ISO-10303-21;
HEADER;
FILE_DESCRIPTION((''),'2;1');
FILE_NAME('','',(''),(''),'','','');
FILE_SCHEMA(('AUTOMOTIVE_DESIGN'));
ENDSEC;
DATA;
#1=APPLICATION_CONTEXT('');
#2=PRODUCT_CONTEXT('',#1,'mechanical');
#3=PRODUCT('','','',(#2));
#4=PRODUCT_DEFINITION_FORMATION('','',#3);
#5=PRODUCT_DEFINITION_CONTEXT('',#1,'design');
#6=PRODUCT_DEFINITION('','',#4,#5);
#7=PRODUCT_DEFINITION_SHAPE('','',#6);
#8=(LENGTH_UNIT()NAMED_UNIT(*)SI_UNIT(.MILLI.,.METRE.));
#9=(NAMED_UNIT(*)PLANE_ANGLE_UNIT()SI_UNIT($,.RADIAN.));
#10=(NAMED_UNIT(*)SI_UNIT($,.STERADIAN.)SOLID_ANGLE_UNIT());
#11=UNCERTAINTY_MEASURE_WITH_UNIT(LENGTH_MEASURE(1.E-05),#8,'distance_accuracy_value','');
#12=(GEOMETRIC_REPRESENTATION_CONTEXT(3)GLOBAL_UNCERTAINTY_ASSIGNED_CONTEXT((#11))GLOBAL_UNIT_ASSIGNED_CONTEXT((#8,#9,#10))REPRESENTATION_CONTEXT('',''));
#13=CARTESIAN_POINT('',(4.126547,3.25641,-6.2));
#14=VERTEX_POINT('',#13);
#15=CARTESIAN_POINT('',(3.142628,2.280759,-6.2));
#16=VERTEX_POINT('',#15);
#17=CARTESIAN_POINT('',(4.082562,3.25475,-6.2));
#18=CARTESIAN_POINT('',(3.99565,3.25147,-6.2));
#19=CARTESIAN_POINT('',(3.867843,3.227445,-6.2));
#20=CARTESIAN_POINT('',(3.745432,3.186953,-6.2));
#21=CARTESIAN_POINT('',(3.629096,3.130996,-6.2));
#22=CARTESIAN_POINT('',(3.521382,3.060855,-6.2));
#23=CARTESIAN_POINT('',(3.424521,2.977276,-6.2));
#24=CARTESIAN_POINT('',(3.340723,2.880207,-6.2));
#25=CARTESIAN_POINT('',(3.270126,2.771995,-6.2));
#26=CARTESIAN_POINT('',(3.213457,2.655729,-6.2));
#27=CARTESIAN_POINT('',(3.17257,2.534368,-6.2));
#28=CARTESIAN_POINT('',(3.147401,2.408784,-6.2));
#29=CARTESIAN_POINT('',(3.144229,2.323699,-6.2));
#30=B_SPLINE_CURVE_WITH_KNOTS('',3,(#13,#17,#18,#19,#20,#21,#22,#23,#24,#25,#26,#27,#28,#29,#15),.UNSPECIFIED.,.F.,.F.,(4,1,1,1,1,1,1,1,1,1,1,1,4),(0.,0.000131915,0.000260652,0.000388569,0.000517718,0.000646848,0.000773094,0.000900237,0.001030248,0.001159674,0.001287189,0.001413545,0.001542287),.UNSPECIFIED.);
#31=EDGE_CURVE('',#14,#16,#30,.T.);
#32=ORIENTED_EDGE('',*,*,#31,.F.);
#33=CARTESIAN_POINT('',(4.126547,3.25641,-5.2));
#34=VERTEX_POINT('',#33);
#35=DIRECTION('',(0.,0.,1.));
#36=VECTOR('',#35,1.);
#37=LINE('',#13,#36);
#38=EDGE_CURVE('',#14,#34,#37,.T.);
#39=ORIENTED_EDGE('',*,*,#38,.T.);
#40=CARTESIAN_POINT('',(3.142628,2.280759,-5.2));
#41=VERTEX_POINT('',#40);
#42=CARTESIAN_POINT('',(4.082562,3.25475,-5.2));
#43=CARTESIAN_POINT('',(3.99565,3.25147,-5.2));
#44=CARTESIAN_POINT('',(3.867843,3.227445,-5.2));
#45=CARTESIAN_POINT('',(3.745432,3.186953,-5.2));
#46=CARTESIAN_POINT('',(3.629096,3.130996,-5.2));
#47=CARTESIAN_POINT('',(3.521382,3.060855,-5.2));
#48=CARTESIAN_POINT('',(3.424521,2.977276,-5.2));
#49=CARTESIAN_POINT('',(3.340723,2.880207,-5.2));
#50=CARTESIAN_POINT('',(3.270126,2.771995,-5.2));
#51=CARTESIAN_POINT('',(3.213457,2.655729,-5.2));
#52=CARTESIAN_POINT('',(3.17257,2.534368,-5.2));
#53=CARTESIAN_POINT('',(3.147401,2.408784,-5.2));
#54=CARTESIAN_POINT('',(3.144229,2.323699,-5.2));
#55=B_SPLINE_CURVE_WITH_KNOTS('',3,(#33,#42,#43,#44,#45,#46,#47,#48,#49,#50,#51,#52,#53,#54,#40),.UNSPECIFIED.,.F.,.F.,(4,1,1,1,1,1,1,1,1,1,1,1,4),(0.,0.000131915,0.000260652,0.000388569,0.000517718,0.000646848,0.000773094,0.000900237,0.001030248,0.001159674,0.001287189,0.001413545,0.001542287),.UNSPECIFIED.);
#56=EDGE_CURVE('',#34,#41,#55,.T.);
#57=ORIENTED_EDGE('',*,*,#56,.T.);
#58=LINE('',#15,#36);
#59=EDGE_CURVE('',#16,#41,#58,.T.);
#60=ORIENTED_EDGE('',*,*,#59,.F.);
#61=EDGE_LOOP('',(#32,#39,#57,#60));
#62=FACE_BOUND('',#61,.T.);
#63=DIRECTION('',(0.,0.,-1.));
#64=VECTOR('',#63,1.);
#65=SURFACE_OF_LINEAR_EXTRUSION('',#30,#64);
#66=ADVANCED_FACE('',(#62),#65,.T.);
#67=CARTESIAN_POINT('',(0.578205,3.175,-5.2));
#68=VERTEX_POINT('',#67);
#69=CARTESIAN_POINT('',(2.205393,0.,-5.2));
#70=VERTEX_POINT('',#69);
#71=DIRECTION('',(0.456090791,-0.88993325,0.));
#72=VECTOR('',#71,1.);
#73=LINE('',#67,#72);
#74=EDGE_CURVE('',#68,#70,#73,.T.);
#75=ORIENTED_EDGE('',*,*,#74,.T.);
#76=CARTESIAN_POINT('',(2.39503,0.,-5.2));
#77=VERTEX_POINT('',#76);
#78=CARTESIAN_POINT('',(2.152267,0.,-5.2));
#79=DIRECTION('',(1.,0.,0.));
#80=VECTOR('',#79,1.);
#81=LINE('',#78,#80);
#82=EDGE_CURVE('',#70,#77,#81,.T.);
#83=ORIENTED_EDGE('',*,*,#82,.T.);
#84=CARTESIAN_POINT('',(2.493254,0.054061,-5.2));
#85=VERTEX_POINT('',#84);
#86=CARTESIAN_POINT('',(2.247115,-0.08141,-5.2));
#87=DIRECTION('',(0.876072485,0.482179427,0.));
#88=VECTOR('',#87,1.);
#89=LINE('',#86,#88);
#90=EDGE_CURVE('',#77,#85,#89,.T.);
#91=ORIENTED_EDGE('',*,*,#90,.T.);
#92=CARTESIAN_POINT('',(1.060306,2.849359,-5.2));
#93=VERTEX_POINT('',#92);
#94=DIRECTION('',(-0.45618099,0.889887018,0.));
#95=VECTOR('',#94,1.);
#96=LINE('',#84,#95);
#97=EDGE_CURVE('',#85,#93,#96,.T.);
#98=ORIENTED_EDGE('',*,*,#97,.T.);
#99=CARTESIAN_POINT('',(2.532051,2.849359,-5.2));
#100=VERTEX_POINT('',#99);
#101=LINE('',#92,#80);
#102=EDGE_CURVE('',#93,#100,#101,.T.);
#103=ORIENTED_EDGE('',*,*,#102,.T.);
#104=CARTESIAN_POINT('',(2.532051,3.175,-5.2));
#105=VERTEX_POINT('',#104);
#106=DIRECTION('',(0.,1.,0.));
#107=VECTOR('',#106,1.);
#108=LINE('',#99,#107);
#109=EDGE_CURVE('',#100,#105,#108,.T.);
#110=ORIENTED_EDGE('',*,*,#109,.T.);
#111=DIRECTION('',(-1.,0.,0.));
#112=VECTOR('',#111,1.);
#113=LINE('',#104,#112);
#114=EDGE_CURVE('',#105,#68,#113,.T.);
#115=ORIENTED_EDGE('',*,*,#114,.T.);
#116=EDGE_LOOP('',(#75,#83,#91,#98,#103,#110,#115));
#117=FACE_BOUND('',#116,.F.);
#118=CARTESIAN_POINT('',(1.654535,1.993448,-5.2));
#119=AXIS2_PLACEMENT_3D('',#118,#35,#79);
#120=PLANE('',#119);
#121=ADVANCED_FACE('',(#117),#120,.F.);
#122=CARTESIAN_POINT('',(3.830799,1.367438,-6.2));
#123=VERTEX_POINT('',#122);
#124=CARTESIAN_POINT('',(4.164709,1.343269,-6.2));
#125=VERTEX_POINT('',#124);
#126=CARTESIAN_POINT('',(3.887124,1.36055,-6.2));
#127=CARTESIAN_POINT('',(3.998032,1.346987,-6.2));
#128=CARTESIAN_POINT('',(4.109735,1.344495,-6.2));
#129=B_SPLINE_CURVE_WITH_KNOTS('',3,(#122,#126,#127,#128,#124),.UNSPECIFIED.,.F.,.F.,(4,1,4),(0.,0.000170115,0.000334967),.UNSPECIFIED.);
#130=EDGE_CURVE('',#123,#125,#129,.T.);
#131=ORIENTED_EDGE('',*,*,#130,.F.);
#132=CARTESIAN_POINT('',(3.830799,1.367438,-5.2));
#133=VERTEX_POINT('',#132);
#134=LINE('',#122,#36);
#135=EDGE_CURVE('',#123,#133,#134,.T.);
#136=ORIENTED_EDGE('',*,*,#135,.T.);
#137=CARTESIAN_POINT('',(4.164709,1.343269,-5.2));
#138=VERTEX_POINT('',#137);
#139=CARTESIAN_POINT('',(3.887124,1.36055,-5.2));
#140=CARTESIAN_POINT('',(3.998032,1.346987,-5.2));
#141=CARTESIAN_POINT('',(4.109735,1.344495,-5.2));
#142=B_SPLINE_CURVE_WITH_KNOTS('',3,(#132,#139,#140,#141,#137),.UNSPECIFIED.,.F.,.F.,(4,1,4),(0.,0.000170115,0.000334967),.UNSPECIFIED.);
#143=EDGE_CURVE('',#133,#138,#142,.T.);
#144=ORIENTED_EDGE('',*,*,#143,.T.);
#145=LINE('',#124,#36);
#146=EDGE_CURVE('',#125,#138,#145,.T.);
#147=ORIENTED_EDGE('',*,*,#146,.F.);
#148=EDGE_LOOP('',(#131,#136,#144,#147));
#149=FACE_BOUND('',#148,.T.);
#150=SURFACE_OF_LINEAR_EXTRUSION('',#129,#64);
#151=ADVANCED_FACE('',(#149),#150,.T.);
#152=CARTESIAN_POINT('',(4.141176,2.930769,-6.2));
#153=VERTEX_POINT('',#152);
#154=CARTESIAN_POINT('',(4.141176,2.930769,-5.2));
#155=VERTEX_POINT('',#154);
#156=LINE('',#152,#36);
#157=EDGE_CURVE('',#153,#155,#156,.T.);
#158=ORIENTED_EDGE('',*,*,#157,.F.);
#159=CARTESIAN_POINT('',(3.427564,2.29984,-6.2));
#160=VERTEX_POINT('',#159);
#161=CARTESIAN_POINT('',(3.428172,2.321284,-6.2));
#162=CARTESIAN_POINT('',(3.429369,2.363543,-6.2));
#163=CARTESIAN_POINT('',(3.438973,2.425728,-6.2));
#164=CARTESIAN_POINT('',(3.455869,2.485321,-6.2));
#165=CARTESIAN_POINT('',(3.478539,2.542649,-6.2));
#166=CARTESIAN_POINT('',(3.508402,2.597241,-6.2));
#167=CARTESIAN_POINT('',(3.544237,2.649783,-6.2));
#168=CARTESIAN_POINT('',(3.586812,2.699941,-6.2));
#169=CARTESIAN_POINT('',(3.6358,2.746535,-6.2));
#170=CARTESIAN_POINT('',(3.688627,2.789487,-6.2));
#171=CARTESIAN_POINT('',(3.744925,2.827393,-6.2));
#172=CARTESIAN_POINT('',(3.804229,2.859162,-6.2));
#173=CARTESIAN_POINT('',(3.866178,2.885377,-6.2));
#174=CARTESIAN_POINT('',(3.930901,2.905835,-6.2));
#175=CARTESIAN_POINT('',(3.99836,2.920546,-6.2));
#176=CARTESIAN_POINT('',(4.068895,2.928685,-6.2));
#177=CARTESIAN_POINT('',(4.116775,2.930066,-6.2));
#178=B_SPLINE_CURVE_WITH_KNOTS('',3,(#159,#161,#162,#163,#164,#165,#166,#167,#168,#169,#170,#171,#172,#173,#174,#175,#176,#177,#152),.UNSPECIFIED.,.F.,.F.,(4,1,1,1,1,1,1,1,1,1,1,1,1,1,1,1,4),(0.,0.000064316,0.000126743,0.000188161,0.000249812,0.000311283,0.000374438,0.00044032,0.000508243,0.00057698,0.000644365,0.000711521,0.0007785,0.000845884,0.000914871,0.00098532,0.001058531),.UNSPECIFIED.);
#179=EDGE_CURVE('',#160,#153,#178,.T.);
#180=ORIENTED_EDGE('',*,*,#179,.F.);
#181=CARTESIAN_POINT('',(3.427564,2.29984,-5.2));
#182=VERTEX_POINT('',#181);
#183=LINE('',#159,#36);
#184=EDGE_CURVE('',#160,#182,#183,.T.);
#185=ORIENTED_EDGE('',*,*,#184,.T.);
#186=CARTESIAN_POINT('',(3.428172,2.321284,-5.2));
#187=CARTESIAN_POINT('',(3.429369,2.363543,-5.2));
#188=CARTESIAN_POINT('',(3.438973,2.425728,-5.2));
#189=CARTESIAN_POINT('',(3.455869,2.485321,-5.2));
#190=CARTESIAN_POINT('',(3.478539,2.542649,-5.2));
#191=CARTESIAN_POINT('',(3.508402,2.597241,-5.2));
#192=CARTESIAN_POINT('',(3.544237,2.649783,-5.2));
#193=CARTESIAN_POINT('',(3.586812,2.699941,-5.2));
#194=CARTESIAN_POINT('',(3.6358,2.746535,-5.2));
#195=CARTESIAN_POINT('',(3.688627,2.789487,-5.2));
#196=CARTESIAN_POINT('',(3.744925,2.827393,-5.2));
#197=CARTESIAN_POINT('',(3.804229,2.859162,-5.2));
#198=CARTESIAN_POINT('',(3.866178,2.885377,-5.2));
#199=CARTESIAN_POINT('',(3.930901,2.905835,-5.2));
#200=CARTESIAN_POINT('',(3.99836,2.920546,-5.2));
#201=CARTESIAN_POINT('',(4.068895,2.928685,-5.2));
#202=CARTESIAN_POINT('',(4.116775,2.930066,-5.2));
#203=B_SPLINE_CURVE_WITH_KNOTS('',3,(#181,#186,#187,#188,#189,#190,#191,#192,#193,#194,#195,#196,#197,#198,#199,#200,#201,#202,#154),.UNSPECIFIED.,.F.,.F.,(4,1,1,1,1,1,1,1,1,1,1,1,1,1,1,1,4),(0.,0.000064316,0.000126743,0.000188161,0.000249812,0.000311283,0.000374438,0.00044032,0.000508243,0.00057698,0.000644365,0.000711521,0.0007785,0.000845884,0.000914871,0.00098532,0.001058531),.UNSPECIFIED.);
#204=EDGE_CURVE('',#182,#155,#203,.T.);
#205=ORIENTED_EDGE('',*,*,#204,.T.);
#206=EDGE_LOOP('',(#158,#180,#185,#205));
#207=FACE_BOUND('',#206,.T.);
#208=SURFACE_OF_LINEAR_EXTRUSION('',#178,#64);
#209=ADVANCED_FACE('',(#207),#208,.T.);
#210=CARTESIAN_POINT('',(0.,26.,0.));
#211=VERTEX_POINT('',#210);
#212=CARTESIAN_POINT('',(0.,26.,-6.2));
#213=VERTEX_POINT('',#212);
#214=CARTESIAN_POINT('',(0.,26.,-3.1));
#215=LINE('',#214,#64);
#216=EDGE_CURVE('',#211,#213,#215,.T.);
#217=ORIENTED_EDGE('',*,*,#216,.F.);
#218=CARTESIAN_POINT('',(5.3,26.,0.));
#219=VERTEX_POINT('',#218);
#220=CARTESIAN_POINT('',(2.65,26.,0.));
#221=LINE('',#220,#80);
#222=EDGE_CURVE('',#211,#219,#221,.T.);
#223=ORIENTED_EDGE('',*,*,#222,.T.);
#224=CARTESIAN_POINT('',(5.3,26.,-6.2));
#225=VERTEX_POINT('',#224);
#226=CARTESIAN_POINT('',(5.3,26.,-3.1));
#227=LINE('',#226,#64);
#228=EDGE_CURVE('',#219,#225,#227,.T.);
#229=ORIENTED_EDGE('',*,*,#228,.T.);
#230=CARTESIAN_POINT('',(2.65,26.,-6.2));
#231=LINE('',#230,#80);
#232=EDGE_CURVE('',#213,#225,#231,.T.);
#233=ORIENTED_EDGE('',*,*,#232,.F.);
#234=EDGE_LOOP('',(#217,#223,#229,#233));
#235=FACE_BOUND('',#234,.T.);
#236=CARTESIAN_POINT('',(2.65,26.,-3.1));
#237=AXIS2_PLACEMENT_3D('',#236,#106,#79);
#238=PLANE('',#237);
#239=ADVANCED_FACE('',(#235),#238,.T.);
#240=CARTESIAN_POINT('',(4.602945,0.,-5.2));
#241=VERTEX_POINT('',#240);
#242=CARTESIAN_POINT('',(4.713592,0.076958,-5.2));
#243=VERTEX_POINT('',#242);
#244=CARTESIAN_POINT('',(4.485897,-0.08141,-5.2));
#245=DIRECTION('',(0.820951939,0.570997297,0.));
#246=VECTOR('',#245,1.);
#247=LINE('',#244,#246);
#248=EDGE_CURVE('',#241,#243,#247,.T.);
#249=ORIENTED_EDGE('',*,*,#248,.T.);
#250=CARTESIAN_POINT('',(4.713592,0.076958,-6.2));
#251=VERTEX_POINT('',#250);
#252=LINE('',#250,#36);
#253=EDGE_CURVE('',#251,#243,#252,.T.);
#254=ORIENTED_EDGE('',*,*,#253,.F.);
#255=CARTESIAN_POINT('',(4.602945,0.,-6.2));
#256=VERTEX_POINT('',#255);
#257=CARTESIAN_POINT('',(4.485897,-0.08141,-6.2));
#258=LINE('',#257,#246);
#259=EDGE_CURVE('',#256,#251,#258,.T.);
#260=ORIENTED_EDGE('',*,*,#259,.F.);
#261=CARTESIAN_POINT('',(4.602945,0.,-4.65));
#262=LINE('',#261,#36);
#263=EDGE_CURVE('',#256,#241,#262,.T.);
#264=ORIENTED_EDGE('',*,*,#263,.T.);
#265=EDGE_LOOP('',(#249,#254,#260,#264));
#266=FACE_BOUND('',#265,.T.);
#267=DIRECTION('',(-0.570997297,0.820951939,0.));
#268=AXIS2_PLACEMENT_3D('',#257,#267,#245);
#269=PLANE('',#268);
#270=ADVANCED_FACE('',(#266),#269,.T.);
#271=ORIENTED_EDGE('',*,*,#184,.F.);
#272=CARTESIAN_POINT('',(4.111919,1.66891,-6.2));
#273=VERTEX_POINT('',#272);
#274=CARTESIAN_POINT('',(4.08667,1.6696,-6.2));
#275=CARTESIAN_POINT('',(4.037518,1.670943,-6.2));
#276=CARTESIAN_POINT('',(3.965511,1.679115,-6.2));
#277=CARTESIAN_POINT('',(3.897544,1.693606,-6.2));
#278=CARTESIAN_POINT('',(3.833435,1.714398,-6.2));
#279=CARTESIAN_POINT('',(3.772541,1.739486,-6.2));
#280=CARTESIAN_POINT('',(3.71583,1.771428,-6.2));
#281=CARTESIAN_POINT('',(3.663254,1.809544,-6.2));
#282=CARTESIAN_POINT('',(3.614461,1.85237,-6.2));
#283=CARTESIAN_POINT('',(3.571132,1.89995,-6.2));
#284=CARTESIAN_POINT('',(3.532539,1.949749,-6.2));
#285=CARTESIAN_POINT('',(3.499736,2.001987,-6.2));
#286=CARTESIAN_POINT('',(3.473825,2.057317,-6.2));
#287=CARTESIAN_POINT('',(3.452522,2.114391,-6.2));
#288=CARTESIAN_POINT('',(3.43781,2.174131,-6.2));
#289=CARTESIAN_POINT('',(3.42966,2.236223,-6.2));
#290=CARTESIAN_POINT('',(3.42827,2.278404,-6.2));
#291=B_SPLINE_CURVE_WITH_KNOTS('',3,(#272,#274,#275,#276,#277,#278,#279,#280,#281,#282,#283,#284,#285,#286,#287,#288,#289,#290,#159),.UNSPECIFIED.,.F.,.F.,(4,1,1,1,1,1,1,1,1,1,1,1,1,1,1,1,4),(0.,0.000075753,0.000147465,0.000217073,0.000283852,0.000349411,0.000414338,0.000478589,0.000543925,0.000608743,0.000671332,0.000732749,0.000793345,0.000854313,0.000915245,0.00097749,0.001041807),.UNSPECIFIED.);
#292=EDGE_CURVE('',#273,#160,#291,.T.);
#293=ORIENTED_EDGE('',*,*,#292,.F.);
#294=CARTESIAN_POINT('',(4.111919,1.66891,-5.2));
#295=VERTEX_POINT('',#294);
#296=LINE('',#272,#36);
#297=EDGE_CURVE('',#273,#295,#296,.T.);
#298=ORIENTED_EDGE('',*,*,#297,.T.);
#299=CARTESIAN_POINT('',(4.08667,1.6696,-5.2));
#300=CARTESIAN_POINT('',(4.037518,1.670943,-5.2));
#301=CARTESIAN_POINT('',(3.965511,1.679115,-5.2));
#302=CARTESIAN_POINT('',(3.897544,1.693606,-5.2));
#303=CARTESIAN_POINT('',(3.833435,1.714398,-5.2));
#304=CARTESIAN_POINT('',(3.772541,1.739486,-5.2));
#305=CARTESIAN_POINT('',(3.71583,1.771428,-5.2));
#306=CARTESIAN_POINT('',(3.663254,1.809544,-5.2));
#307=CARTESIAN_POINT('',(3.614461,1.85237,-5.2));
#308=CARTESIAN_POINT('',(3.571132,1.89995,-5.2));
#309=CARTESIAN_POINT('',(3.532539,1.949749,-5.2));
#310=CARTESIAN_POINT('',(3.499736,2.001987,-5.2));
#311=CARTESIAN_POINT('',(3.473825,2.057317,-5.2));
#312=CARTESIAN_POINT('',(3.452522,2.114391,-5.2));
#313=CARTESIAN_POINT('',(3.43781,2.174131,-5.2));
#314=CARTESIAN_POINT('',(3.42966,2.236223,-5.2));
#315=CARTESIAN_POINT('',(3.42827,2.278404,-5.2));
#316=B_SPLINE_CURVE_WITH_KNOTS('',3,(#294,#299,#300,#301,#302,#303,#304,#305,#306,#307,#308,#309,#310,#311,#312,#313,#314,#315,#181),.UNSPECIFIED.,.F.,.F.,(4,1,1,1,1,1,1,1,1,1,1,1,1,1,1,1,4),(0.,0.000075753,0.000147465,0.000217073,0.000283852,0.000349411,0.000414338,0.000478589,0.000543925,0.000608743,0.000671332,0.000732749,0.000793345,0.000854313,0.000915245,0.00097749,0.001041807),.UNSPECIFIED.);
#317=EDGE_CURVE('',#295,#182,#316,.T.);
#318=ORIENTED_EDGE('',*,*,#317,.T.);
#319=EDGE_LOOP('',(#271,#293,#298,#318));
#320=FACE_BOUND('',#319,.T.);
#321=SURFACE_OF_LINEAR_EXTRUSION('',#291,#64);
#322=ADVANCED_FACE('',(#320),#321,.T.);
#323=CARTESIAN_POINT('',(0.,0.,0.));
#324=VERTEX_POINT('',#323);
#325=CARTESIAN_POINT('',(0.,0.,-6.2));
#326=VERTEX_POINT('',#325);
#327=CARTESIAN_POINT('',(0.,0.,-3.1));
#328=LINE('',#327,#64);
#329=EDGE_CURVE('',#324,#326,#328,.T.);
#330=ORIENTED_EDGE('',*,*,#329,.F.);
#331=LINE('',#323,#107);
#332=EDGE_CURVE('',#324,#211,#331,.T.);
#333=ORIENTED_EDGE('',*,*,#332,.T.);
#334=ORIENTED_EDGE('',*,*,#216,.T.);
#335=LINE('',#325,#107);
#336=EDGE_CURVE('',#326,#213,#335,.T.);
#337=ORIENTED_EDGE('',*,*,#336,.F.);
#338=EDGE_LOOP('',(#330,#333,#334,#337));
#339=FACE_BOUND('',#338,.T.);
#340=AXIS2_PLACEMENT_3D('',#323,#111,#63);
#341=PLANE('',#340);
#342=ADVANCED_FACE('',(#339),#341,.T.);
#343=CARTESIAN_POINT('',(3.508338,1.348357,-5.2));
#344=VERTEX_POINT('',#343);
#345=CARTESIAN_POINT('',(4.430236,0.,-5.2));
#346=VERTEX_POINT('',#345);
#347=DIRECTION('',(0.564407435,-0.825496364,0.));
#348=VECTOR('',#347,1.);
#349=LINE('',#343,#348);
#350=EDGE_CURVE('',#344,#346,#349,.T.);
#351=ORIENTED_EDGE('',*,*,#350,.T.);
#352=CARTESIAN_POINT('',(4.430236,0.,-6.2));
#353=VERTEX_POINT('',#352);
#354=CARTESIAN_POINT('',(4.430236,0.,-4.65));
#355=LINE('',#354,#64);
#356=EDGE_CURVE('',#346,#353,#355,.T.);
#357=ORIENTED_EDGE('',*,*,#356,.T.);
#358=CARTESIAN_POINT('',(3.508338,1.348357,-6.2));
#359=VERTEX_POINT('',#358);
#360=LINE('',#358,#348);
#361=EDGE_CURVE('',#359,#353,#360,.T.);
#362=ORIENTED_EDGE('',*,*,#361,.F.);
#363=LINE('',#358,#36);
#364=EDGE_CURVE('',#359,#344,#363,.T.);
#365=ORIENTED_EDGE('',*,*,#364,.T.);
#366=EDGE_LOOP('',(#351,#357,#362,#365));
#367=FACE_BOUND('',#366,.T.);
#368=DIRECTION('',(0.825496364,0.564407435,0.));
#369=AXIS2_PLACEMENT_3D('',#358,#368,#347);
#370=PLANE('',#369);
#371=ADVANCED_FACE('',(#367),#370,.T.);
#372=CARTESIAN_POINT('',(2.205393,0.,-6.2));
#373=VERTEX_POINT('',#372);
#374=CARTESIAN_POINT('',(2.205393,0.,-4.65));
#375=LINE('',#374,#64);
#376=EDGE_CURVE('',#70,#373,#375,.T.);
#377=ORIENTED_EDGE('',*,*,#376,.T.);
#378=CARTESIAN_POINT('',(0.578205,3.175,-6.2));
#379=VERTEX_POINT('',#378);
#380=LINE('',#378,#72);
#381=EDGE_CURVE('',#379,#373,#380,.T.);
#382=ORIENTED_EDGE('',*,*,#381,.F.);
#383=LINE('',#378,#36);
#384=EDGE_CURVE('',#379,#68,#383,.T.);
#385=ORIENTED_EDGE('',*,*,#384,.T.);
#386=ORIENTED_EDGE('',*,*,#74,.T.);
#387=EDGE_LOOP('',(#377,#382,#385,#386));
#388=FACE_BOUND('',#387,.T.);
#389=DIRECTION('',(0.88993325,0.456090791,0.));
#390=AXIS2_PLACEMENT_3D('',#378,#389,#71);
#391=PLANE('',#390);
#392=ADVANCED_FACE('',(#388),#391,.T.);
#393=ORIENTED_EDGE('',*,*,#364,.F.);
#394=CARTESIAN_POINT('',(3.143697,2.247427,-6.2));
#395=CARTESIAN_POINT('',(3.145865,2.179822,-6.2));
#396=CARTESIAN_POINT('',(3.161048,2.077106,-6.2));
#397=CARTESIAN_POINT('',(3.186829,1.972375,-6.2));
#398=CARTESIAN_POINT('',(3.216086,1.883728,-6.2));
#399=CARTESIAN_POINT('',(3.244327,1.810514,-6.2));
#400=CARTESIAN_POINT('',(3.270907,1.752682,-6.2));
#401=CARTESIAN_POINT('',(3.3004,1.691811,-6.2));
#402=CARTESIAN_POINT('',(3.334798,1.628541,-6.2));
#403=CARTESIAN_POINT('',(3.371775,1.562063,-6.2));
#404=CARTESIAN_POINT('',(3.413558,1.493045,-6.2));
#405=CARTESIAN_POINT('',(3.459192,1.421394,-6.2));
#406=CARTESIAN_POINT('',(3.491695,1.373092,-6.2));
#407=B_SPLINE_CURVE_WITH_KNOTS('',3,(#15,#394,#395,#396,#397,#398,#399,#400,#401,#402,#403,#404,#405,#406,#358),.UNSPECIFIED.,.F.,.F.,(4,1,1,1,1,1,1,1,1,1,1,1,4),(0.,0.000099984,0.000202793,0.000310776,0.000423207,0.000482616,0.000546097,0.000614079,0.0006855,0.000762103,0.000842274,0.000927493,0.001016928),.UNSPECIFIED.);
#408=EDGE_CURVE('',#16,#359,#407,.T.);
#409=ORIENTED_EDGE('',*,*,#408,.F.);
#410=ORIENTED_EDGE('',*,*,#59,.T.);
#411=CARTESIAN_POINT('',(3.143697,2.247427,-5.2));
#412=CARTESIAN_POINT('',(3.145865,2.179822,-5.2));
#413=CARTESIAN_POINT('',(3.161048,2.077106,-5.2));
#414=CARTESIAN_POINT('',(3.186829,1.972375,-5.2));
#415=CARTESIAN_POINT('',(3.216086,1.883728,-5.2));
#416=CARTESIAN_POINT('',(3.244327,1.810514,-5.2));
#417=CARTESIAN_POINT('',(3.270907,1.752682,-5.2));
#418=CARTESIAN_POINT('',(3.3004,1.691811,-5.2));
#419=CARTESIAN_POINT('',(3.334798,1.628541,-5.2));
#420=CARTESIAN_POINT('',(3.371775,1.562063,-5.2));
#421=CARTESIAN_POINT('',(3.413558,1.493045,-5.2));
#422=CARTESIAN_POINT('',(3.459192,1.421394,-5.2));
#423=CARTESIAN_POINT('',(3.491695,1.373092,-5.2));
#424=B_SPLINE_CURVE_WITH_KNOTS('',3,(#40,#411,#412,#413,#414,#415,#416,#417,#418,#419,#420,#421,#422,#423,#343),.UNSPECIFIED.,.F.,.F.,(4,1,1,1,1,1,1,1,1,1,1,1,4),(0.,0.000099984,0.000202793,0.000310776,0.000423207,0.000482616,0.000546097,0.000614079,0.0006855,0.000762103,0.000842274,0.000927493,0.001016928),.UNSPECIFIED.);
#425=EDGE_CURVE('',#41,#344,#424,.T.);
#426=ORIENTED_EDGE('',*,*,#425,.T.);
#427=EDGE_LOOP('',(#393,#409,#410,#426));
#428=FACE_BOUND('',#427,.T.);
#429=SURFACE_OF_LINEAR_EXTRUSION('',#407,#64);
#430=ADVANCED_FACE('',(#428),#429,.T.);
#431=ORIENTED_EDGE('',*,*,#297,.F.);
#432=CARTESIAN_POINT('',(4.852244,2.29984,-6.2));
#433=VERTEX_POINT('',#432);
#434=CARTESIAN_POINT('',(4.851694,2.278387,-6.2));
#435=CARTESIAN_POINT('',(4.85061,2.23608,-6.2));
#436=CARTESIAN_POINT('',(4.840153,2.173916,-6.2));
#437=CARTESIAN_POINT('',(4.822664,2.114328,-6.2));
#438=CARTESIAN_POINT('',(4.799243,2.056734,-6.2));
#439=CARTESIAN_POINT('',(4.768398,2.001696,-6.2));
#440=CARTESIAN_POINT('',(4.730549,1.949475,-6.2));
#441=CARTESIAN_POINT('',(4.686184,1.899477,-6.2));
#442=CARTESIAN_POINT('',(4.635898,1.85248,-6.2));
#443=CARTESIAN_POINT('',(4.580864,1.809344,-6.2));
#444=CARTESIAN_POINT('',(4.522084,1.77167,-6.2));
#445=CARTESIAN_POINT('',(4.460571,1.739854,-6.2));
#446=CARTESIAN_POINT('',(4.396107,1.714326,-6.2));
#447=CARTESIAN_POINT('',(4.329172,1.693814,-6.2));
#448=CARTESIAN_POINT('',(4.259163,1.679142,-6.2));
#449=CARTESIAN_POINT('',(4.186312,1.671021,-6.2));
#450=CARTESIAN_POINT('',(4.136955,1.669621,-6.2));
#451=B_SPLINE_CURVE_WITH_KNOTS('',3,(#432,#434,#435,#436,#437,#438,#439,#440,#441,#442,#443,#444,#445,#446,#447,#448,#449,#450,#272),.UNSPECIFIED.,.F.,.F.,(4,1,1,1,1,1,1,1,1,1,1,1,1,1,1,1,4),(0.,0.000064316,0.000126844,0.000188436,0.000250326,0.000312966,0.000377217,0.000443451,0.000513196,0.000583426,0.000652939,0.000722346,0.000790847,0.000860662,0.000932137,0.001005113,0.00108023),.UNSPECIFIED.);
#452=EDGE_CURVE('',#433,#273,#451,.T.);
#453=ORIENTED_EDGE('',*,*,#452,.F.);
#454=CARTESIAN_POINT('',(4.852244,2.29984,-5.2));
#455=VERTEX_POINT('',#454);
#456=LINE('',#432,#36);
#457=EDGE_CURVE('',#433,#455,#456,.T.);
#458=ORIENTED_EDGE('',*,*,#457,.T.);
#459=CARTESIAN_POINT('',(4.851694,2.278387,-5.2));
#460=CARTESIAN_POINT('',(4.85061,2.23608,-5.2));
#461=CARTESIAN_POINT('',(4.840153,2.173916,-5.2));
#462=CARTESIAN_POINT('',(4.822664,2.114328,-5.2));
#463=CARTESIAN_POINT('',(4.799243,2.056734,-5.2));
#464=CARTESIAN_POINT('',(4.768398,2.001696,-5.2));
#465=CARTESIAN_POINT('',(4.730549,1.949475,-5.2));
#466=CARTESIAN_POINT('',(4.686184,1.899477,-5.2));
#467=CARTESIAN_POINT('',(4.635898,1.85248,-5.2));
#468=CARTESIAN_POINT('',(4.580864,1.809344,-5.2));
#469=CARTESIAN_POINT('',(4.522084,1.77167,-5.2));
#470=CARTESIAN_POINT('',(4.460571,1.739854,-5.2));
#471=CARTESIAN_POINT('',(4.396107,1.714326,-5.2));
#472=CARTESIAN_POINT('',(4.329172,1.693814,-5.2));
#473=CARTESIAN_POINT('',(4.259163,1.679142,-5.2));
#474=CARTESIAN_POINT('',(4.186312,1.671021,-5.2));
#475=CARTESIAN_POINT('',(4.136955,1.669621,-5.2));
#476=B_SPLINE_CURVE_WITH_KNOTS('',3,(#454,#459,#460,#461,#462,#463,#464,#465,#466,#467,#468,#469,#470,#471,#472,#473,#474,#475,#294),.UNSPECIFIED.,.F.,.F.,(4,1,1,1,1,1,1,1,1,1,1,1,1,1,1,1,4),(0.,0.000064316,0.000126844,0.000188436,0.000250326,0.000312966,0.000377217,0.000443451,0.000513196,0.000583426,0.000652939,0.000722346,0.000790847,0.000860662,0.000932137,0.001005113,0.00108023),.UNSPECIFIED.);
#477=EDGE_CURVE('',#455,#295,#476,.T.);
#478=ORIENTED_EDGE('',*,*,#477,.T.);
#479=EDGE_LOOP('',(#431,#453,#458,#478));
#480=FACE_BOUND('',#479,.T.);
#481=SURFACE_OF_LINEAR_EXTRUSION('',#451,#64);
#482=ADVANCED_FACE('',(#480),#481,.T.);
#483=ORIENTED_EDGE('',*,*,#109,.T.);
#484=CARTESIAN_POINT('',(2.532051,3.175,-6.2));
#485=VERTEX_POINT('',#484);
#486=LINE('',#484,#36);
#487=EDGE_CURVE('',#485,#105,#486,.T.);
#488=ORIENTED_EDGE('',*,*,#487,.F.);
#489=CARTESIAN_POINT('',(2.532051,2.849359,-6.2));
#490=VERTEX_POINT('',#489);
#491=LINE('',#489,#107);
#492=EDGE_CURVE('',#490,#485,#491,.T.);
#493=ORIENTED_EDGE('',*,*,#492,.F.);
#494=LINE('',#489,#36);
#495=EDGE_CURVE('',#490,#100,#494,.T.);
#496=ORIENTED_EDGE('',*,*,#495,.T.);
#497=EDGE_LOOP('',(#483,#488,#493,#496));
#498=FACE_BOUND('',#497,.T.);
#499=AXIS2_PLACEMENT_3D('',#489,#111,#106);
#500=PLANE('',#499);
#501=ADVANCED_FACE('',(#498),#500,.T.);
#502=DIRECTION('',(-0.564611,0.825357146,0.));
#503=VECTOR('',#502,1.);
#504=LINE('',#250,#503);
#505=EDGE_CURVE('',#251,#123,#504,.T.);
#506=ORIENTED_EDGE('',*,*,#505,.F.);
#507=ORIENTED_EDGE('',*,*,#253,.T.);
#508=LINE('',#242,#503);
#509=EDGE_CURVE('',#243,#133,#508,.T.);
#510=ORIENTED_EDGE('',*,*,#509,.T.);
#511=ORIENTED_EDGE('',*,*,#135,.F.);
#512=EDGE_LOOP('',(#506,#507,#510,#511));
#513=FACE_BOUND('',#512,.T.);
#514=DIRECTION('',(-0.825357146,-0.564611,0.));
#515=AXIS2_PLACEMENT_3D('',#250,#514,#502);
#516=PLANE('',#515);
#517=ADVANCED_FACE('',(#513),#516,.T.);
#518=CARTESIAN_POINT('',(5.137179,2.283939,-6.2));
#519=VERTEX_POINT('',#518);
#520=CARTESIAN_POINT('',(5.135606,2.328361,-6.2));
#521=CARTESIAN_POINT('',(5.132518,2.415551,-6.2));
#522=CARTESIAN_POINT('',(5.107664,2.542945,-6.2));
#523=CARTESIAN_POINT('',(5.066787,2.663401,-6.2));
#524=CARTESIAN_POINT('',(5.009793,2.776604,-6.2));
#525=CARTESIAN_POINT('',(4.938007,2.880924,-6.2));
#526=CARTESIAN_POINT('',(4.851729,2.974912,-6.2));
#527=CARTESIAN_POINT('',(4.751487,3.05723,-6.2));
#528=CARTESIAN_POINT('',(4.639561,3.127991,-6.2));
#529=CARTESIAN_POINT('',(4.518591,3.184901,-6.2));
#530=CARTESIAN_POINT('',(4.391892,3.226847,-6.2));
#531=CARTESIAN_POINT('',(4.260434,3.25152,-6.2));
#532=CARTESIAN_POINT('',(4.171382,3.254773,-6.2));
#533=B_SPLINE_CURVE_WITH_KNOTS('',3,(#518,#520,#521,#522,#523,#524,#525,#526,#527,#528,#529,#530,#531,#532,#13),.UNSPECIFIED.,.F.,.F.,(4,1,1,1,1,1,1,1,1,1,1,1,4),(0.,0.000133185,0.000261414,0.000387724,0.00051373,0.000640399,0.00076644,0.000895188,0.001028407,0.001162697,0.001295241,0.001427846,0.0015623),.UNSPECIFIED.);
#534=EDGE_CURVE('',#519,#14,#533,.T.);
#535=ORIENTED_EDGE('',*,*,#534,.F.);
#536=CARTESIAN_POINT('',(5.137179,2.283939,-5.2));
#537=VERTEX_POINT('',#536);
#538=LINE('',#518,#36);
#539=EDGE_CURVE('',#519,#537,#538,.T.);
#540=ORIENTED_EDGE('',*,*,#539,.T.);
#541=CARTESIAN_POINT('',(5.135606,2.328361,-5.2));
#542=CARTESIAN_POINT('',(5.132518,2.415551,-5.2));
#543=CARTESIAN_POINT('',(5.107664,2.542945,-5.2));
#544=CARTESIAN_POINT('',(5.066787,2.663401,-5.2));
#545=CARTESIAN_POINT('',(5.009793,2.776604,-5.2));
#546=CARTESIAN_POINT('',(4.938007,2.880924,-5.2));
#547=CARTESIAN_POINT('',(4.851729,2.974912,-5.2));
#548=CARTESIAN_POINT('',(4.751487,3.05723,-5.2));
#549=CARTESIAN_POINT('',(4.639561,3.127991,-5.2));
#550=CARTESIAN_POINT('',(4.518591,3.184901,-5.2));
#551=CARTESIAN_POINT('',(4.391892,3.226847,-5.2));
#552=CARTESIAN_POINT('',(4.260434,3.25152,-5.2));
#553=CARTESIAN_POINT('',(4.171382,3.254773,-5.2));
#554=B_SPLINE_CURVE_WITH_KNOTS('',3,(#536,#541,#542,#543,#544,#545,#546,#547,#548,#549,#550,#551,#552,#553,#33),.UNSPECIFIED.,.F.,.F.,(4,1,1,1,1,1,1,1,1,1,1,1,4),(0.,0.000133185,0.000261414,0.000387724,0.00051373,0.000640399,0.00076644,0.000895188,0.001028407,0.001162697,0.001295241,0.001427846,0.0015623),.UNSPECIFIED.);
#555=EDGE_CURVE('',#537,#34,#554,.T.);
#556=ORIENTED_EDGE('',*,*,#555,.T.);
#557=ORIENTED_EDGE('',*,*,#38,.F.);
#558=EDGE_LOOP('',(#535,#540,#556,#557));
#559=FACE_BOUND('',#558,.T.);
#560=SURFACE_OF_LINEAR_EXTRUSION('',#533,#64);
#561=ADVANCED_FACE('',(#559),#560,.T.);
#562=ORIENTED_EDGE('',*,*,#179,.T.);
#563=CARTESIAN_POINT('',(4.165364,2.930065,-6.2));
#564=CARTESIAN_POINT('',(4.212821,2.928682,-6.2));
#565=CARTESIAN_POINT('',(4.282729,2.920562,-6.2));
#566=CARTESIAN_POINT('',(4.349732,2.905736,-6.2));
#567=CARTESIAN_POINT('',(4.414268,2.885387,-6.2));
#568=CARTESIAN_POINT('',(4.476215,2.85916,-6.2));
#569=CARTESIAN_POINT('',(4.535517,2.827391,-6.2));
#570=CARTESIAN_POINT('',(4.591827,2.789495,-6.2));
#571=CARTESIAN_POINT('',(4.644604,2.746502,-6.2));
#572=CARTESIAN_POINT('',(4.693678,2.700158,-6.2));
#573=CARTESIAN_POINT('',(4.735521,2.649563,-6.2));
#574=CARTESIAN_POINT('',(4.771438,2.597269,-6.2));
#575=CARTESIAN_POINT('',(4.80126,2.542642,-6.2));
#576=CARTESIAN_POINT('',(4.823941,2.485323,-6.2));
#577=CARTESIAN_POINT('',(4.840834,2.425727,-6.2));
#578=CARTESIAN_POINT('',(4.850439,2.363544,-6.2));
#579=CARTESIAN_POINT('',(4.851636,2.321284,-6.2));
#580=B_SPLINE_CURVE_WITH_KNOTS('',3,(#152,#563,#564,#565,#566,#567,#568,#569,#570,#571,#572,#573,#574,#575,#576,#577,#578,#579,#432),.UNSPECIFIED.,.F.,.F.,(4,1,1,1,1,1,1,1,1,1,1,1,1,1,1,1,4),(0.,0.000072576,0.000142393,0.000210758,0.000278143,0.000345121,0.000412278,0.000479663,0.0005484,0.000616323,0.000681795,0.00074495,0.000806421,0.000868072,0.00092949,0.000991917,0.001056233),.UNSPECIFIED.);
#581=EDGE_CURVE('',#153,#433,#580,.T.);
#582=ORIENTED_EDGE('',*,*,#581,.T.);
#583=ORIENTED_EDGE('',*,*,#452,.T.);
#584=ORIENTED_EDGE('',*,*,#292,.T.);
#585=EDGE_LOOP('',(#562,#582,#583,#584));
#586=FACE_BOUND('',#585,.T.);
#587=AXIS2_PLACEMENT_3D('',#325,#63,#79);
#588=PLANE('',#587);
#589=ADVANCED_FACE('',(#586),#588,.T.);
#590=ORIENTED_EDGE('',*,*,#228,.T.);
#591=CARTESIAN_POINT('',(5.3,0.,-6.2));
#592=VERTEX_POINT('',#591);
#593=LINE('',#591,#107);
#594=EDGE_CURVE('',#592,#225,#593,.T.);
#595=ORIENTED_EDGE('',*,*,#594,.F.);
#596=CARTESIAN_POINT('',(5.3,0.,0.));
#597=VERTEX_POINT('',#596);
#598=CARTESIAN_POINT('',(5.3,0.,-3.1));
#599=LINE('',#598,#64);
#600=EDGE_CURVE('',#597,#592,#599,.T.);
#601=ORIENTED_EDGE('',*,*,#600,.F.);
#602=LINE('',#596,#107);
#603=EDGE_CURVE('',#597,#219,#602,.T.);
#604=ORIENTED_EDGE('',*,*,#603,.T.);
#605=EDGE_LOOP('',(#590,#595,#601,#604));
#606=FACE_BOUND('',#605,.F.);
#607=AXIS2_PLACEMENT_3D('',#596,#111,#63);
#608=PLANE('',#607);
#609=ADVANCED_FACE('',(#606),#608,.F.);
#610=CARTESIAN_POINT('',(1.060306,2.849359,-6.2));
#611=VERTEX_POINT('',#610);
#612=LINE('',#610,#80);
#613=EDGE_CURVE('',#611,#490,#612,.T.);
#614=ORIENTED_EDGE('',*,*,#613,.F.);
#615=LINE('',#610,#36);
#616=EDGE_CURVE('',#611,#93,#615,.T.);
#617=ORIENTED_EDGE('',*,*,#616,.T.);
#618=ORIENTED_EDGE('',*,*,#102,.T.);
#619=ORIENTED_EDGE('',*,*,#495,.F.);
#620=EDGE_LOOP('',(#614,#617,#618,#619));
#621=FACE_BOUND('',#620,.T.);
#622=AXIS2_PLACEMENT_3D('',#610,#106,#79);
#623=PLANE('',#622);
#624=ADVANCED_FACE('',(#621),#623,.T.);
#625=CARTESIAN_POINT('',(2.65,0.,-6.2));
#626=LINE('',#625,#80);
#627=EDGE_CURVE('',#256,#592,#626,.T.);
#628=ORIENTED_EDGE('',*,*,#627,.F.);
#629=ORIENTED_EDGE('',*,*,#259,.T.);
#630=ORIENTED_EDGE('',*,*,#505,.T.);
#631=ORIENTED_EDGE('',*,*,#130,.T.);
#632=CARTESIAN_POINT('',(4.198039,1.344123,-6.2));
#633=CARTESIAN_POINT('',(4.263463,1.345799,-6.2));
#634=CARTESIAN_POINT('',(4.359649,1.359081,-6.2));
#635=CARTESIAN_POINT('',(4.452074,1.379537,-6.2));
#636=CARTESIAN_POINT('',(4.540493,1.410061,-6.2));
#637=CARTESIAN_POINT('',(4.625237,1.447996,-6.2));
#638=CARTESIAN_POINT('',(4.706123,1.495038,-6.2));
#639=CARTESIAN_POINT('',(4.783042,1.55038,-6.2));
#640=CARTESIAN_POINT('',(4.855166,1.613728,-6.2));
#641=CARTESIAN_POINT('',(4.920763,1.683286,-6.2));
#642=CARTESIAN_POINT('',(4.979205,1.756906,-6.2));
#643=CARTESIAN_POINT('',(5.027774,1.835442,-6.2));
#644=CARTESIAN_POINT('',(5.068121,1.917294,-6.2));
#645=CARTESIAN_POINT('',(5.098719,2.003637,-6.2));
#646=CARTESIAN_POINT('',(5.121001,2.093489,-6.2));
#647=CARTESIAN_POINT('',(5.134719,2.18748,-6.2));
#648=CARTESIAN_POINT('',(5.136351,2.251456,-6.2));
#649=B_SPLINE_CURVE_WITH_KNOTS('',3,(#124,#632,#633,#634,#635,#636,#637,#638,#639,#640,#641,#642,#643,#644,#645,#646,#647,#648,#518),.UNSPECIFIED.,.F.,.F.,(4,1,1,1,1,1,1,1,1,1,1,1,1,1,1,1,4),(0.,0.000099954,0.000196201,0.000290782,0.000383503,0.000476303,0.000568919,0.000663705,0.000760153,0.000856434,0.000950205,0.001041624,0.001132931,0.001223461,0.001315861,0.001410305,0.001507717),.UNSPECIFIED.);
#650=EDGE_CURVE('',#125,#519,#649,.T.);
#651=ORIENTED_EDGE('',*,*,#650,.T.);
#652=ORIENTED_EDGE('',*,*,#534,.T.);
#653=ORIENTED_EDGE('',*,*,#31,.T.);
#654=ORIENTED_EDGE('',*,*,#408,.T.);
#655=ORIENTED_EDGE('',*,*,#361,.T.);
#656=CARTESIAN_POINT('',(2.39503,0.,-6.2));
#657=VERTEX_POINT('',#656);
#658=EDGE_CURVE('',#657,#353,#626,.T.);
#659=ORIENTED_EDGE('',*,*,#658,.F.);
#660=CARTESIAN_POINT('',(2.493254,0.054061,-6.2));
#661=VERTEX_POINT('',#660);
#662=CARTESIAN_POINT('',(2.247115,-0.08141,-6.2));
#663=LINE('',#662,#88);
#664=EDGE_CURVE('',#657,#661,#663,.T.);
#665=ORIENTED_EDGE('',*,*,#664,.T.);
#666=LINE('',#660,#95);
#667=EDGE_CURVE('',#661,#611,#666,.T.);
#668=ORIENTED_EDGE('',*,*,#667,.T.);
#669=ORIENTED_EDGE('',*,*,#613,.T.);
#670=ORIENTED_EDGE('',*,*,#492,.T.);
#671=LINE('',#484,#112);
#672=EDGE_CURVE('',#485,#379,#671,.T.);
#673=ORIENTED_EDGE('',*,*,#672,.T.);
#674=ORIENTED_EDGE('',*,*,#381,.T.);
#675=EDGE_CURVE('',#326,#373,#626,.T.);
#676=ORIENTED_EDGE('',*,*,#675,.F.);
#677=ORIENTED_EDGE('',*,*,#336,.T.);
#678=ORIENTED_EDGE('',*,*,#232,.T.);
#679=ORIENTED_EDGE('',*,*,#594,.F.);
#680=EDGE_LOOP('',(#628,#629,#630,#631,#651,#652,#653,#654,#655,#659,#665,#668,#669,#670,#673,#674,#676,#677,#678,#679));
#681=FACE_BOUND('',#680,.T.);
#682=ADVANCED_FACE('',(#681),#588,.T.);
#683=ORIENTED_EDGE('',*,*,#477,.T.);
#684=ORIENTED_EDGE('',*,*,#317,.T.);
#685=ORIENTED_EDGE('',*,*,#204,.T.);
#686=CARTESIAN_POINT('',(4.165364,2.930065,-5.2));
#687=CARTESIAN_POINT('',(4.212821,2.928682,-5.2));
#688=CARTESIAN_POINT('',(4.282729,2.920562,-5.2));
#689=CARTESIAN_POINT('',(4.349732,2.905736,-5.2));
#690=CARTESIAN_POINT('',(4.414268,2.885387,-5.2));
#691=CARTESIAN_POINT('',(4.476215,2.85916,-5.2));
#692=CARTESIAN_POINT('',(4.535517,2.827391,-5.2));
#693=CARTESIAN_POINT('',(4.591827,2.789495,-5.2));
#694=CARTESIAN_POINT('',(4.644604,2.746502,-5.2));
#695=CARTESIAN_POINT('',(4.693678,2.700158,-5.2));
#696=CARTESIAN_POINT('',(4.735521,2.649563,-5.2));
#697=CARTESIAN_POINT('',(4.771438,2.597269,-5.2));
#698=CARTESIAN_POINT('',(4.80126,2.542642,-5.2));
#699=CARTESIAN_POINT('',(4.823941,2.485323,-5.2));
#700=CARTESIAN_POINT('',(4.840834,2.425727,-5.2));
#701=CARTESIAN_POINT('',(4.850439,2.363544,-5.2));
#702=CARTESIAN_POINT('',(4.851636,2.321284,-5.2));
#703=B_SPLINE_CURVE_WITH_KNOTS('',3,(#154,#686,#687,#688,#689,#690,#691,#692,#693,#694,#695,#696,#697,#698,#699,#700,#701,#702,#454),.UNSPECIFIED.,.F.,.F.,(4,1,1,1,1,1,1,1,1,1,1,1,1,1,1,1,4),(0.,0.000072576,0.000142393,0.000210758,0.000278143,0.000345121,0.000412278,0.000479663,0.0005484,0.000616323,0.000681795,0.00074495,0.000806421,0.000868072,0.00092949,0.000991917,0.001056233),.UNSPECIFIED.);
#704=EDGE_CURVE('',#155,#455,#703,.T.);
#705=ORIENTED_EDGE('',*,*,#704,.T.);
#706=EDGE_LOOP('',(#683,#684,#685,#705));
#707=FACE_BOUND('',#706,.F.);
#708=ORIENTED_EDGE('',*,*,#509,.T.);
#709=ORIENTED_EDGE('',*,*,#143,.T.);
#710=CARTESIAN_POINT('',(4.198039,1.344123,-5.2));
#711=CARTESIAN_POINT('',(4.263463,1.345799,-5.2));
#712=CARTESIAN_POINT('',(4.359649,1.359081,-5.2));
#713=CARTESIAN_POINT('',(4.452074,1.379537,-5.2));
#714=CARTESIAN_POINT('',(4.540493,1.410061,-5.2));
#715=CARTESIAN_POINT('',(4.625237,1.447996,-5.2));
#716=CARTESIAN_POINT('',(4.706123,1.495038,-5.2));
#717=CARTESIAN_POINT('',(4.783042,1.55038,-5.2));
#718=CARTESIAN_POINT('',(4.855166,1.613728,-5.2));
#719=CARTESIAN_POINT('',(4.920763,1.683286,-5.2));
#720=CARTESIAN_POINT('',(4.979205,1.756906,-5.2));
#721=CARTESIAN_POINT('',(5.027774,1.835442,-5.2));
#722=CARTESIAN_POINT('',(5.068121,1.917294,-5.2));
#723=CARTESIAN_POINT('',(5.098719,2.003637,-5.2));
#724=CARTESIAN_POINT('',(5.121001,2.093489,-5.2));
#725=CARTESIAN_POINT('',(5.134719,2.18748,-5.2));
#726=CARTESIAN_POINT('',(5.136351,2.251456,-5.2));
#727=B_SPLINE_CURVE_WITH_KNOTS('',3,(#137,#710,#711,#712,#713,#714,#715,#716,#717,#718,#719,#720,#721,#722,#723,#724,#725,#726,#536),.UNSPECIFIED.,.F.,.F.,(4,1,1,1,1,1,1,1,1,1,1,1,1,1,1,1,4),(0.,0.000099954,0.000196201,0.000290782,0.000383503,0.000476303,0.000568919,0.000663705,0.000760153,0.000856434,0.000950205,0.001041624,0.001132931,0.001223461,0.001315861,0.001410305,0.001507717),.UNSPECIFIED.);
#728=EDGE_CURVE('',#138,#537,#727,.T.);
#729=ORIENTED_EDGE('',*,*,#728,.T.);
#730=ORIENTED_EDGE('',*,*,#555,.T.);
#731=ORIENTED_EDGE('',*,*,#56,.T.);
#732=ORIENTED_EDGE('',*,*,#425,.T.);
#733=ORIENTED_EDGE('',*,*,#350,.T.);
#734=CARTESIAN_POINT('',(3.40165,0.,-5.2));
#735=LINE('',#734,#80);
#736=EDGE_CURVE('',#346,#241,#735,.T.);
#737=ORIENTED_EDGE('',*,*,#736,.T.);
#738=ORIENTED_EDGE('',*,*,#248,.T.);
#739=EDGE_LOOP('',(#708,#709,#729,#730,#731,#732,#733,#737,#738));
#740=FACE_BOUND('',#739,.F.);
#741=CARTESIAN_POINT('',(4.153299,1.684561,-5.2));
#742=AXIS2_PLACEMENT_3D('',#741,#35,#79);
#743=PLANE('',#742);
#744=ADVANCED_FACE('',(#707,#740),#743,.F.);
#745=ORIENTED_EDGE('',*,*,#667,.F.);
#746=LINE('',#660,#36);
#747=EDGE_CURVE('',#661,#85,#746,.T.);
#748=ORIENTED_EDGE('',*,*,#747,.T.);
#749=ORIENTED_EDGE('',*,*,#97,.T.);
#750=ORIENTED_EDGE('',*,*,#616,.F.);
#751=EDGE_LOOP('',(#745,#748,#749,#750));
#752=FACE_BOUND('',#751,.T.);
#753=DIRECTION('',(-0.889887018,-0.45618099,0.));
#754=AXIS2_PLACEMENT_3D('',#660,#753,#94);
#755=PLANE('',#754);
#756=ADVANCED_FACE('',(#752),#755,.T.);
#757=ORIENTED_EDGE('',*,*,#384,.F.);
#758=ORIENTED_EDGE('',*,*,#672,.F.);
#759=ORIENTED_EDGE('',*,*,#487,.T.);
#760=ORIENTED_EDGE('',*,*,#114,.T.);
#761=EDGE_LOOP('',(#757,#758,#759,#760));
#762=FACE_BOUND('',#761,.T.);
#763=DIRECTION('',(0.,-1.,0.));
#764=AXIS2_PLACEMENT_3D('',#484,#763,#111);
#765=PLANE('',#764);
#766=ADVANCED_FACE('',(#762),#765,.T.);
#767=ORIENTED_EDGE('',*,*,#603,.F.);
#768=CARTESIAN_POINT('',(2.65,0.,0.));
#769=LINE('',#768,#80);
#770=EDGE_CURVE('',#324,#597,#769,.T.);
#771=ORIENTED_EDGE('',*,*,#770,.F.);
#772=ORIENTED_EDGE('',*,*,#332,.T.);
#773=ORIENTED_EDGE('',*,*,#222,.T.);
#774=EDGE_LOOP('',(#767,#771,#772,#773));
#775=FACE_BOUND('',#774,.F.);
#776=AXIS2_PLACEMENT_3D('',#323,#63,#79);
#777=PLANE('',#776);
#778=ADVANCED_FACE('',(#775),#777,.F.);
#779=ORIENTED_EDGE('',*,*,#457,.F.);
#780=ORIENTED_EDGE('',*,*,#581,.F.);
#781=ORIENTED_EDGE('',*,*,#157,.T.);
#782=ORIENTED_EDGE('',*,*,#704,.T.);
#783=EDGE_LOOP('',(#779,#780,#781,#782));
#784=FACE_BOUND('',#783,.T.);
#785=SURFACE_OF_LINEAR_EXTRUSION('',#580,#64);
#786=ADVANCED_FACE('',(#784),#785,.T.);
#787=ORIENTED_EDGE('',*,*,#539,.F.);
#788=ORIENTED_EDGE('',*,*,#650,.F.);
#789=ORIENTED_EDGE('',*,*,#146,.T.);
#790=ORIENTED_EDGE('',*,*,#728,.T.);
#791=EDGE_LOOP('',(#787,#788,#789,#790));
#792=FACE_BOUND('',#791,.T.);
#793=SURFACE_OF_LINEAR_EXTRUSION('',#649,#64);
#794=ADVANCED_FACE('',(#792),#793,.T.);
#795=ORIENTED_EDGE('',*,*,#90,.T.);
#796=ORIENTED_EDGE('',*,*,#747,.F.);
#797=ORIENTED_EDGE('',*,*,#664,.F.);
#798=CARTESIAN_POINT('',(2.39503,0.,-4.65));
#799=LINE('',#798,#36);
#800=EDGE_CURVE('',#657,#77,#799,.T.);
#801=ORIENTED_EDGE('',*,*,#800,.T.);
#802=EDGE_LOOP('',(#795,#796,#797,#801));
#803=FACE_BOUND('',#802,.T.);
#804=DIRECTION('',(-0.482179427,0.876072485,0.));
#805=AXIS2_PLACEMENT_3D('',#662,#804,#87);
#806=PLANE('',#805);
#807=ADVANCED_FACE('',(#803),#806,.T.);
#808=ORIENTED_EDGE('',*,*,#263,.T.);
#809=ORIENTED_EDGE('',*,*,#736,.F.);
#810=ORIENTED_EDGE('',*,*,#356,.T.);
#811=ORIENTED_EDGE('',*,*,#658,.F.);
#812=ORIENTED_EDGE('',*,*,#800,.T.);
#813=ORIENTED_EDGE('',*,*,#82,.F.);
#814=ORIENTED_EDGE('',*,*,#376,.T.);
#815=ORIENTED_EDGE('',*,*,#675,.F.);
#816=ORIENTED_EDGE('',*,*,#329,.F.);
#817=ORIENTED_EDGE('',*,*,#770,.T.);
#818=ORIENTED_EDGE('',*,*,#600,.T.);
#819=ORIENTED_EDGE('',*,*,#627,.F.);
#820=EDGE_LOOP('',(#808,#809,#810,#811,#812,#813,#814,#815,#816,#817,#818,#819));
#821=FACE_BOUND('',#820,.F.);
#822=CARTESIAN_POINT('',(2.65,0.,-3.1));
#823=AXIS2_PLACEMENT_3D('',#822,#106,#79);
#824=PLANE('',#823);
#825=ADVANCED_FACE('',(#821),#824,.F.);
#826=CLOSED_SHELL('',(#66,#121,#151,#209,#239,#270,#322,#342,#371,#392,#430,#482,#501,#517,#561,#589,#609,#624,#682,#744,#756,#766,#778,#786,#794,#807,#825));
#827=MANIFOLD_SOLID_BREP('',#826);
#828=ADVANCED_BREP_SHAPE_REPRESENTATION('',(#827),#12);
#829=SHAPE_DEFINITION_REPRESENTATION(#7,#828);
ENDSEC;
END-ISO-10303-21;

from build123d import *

# Parameters (mm, degrees)
SKETCH1_W           = 5.3
SKETCH1_H           = 6.2
BOSS_EXTRUDE1_DEPTH = 26
CUT_EXTRUDE1_DEPTH  = 1


with BuildPart() as part:
    # Sketch1 → Boss-Extrude1 (new body)
    with BuildSketch(Plane(origin=(0, 0, 0), x_dir=(1, 0, 0), z_dir=(0, 1, 0))):
        with Locations((2.65, 3.1)):
            Rectangle(SKETCH1_W, SKETCH1_H)
    extrude(amount=BOSS_EXTRUDE1_DEPTH)

    # Sketch2 → Cut-Extrude1 (cut)
    with BuildSketch(Plane(origin=(0, 0, -6.2), x_dir=(-1, 0, 0), z_dir=(0, 0, -1))):
        with BuildLine():
            Line((-4.485897436, -0.081410256), (-4.713591747, 0.076958133))
            Line((-4.713591747, 0.076958133), (-3.830799279, 1.367437901))
            add(Edge.make_bspline(
                [(-3.830799279, 1.367437901), (-3.887124446, 1.360549907), (-3.998031841, 1.346987065), (-4.109734783, 1.344495457), (-4.164708534, 1.343269231)],
                knots=[0, 0, 0, 0, 0.000170115, 0.000334967, 0.000334967, 0.000334967, 0.000334967], degree=3))
            add(Edge.make_bspline(
                [(-4.164708534, 1.343269231), (-4.19803882, 1.344122922), (-4.263463257, 1.345798642), (-4.359649113, 1.359080854), (-4.452073872, 1.379537041), (-4.540492502, 1.410061269), (-4.625237338, 1.447996358), (-4.706123378, 1.495038078), (-4.783041736, 1.5503795), (-4.855166315, 1.613727999), (-4.920763393, 1.683285947), (-4.979204527, 1.756905709), (-5.027773982, 1.835442482), (-5.068120599, 1.917294181), (-5.098718939, 2.003637264), (-5.12100067, 2.093489219), (-5.134718806, 2.18747978), (-5.136350842, 2.251456149), (-5.137179487, 2.283939303)],
                knots=[0, 0, 0, 0, 9.9954e-05, 0.000196201, 0.000290782, 0.000383503, 0.000476303, 0.000568919, 0.000663705, 0.000760153, 0.000856434, 0.000950205, 0.001041624, 0.001132931, 0.001223461, 0.001315861, 0.001410305, 0.001507717, 0.001507717, 0.001507717, 0.001507717], degree=3))
            add(Edge.make_bspline(
                [(-5.137179487, 2.283939303), (-5.135606107, 2.328360866), (-5.132517881, 2.415551384), (-5.107663512, 2.542944875), (-5.066787347, 2.663401239), (-5.009793034, 2.776603772), (-4.938006536, 2.880924057), (-4.851729458, 2.974911867), (-4.751486576, 3.057230413), (-4.639561459, 3.127991255), (-4.518591219, 3.184900859), (-4.391891793, 3.22684651), (-4.260433984, 3.25151966), (-4.171381883, 3.254772549), (-4.126547476, 3.256410256)],
                knots=[0, 0, 0, 0, 0.000133185, 0.000261414, 0.000387724, 0.00051373, 0.000640399, 0.00076644, 0.000895188, 0.001028407, 0.001162697, 0.001295241, 0.001427846, 0.0015623, 0.0015623, 0.0015623, 0.0015623], degree=3))
            add(Edge.make_bspline(
                [(-4.126547476, 3.256410256), (-4.082561552, 3.254750037), (-3.995649514, 3.2514696), (-3.867843058, 3.227444857), (-3.745432278, 3.186953018), (-3.629095754, 3.130996306), (-3.521382145, 3.060855197), (-3.42452123, 2.977276022), (-3.34072342, 2.880206723), (-3.270126042, 2.771995021), (-3.213456791, 2.655729259), (-3.172569792, 2.53436813), (-3.147400534, 2.408784432), (-3.144228865, 2.323699445), (-3.142628205, 2.280759215)],
                knots=[0, 0, 0, 0, 0.000131915, 0.000260652, 0.000388569, 0.000517718, 0.000646848, 0.000773094, 0.000900237, 0.001030248, 0.001159674, 0.001287189, 0.001413545, 0.001542287, 0.001542287, 0.001542287, 0.001542287], degree=3))
            add(Edge.make_bspline(
                [(-3.142628205, 2.280759215), (-3.14369719, 2.247427369), (-3.14586536, 2.179822057), (-3.161047581, 2.07710596), (-3.186828749, 1.972375202), (-3.216085647, 1.883727754), (-3.244326971, 1.810513661), (-3.270907283, 1.75268187), (-3.300400451, 1.691811439), (-3.334798188, 1.628540639), (-3.371775414, 1.562062911), (-3.413557758, 1.493045019), (-3.459192098, 1.421394347), (-3.491694773, 1.373091631), (-3.508338341, 1.348357372)],
                knots=[0, 0, 0, 0, 9.9984e-05, 0.000202793, 0.000310776, 0.000423207, 0.000482616, 0.000546097, 0.000614079, 0.0006855, 0.000762103, 0.000842274, 0.000927493, 0.001016928, 0.001016928, 0.001016928, 0.001016928], degree=3))
            Line((-3.508338341, 1.348357372), (-4.485897436, -0.081410256))
        make_face()
        with BuildLine():
            add(Edge.make_bspline(
                [(-4.111919071, 1.668910256), (-4.086669643, 1.669600033), (-4.037517593, 1.670942794), (-3.965511043, 1.679115463), (-3.897544087, 1.693606151), (-3.833435168, 1.714397604), (-3.772541478, 1.739486153), (-3.715830238, 1.771428455), (-3.663253984, 1.809543545), (-3.61446065, 1.852369774), (-3.571131879, 1.899949946), (-3.532539272, 1.949749464), (-3.499736472, 2.001986932), (-3.473825499, 2.057316534), (-3.452521634, 2.11439143), (-3.43780958, 2.174130738), (-3.429659507, 2.236223216), (-3.428270149, 2.278404141), (-3.427564103, 2.299839744)],
                knots=[0, 0, 0, 0, 7.5753e-05, 0.000147465, 0.000217073, 0.000283852, 0.000349411, 0.000414338, 0.000478589, 0.000543925, 0.000608743, 0.000671332, 0.000732749, 0.000793345, 0.000854313, 0.000915245, 0.00097749, 0.001041807, 0.001041807, 0.001041807, 0.001041807], degree=3))
            add(Edge.make_bspline(
                [(-3.427564103, 2.299839744), (-3.428171588, 2.321284297), (-3.429368713, 2.36354342), (-3.438972906, 2.425727827), (-3.455868645, 2.485320999), (-3.478538584, 2.542649189), (-3.508401943, 2.597241384), (-3.544237248, 2.649782982), (-3.586811684, 2.69994084), (-3.635799726, 2.746535311), (-3.688626785, 2.78948662), (-3.744924525, 2.82739256), (-3.804228913, 2.859161788), (-3.866178143, 2.885377282), (-3.930901288, 2.905834965), (-3.998360049, 2.920546431), (-4.06889531, 2.928685094), (-4.116775476, 2.93006567), (-4.141175881, 2.930769231)],
                knots=[0, 0, 0, 0, 6.4316e-05, 0.000126743, 0.000188161, 0.000249812, 0.000311283, 0.000374438, 0.00044032, 0.000508243, 0.00057698, 0.000644365, 0.000711521, 0.0007785, 0.000845884, 0.000914871, 0.00098532, 0.001058531, 0.001058531, 0.001058531, 0.001058531], degree=3))
            add(Edge.make_bspline(
                [(-4.141175881, 2.930769231), (-4.165364078, 2.930064533), (-4.21282112, 2.928681923), (-4.282729321, 2.920561901), (-4.349731952, 2.905736026), (-4.414267565, 2.885386758), (-4.476214954, 2.859159833), (-4.535516545, 2.827390896), (-4.591827453, 2.789495345), (-4.644603864, 2.746501516), (-4.693678408, 2.700157723), (-4.735520852, 2.649563255), (-4.771438168, 2.597268715), (-4.801260492, 2.542641926), (-4.823941347, 2.485322938), (-4.840834163, 2.425727302), (-4.850439142, 2.363543557), (-4.851636159, 2.321284343), (-4.85224359, 2.299839744)],
                knots=[0, 0, 0, 0, 7.2576e-05, 0.000142393, 0.000210758, 0.000278143, 0.000345121, 0.000412278, 0.000479663, 0.0005484, 0.000616323, 0.000681795, 0.00074495, 0.000806421, 0.000868072, 0.00092949, 0.000991917, 0.001056233, 0.001056233, 0.001056233, 0.001056233], degree=3))
            add(Edge.make_bspline(
                [(-4.85224359, 2.299839744), (-4.851693928, 2.278387449), (-4.850609895, 2.236079598), (-4.840152543, 2.17391637), (-4.822664389, 2.114327794), (-4.799242513, 2.056734467), (-4.768398214, 2.001696424), (-4.730548723, 1.949474603), (-4.686184406, 1.899477016), (-4.635898314, 1.852480474), (-4.580863625, 1.809343857), (-4.52208372, 1.771669868), (-4.46057051, 1.739854151), (-4.39610746, 1.714325895), (-4.329172291, 1.693813886), (-4.259163422, 1.67914217), (-4.186312378, 1.671021185), (-4.136954752, 1.66962065), (-4.111919071, 1.668910256)],
                knots=[0, 0, 0, 0, 6.4316e-05, 0.000126844, 0.000188436, 0.000250326, 0.000312966, 0.000377217, 0.000443451, 0.000513196, 0.000583426, 0.000652939, 0.000722346, 0.000790847, 0.000860662, 0.000932137, 0.001005113, 0.00108023, 0.00108023, 0.00108023, 0.00108023], degree=3))
        make_face(mode=Mode.SUBTRACT)
        Polygon((-2.532051282, 3.175), (-0.578205128, 3.175), (-2.247115385, -0.081410256), (-2.493254207, 0.054061498), (-1.06030649, 2.849358974), (-2.532051282, 2.849358974), align=None)
    extrude(amount=-CUT_EXTRUDE1_DEPTH, mode=Mode.SUBTRACT)


solid = part.part
